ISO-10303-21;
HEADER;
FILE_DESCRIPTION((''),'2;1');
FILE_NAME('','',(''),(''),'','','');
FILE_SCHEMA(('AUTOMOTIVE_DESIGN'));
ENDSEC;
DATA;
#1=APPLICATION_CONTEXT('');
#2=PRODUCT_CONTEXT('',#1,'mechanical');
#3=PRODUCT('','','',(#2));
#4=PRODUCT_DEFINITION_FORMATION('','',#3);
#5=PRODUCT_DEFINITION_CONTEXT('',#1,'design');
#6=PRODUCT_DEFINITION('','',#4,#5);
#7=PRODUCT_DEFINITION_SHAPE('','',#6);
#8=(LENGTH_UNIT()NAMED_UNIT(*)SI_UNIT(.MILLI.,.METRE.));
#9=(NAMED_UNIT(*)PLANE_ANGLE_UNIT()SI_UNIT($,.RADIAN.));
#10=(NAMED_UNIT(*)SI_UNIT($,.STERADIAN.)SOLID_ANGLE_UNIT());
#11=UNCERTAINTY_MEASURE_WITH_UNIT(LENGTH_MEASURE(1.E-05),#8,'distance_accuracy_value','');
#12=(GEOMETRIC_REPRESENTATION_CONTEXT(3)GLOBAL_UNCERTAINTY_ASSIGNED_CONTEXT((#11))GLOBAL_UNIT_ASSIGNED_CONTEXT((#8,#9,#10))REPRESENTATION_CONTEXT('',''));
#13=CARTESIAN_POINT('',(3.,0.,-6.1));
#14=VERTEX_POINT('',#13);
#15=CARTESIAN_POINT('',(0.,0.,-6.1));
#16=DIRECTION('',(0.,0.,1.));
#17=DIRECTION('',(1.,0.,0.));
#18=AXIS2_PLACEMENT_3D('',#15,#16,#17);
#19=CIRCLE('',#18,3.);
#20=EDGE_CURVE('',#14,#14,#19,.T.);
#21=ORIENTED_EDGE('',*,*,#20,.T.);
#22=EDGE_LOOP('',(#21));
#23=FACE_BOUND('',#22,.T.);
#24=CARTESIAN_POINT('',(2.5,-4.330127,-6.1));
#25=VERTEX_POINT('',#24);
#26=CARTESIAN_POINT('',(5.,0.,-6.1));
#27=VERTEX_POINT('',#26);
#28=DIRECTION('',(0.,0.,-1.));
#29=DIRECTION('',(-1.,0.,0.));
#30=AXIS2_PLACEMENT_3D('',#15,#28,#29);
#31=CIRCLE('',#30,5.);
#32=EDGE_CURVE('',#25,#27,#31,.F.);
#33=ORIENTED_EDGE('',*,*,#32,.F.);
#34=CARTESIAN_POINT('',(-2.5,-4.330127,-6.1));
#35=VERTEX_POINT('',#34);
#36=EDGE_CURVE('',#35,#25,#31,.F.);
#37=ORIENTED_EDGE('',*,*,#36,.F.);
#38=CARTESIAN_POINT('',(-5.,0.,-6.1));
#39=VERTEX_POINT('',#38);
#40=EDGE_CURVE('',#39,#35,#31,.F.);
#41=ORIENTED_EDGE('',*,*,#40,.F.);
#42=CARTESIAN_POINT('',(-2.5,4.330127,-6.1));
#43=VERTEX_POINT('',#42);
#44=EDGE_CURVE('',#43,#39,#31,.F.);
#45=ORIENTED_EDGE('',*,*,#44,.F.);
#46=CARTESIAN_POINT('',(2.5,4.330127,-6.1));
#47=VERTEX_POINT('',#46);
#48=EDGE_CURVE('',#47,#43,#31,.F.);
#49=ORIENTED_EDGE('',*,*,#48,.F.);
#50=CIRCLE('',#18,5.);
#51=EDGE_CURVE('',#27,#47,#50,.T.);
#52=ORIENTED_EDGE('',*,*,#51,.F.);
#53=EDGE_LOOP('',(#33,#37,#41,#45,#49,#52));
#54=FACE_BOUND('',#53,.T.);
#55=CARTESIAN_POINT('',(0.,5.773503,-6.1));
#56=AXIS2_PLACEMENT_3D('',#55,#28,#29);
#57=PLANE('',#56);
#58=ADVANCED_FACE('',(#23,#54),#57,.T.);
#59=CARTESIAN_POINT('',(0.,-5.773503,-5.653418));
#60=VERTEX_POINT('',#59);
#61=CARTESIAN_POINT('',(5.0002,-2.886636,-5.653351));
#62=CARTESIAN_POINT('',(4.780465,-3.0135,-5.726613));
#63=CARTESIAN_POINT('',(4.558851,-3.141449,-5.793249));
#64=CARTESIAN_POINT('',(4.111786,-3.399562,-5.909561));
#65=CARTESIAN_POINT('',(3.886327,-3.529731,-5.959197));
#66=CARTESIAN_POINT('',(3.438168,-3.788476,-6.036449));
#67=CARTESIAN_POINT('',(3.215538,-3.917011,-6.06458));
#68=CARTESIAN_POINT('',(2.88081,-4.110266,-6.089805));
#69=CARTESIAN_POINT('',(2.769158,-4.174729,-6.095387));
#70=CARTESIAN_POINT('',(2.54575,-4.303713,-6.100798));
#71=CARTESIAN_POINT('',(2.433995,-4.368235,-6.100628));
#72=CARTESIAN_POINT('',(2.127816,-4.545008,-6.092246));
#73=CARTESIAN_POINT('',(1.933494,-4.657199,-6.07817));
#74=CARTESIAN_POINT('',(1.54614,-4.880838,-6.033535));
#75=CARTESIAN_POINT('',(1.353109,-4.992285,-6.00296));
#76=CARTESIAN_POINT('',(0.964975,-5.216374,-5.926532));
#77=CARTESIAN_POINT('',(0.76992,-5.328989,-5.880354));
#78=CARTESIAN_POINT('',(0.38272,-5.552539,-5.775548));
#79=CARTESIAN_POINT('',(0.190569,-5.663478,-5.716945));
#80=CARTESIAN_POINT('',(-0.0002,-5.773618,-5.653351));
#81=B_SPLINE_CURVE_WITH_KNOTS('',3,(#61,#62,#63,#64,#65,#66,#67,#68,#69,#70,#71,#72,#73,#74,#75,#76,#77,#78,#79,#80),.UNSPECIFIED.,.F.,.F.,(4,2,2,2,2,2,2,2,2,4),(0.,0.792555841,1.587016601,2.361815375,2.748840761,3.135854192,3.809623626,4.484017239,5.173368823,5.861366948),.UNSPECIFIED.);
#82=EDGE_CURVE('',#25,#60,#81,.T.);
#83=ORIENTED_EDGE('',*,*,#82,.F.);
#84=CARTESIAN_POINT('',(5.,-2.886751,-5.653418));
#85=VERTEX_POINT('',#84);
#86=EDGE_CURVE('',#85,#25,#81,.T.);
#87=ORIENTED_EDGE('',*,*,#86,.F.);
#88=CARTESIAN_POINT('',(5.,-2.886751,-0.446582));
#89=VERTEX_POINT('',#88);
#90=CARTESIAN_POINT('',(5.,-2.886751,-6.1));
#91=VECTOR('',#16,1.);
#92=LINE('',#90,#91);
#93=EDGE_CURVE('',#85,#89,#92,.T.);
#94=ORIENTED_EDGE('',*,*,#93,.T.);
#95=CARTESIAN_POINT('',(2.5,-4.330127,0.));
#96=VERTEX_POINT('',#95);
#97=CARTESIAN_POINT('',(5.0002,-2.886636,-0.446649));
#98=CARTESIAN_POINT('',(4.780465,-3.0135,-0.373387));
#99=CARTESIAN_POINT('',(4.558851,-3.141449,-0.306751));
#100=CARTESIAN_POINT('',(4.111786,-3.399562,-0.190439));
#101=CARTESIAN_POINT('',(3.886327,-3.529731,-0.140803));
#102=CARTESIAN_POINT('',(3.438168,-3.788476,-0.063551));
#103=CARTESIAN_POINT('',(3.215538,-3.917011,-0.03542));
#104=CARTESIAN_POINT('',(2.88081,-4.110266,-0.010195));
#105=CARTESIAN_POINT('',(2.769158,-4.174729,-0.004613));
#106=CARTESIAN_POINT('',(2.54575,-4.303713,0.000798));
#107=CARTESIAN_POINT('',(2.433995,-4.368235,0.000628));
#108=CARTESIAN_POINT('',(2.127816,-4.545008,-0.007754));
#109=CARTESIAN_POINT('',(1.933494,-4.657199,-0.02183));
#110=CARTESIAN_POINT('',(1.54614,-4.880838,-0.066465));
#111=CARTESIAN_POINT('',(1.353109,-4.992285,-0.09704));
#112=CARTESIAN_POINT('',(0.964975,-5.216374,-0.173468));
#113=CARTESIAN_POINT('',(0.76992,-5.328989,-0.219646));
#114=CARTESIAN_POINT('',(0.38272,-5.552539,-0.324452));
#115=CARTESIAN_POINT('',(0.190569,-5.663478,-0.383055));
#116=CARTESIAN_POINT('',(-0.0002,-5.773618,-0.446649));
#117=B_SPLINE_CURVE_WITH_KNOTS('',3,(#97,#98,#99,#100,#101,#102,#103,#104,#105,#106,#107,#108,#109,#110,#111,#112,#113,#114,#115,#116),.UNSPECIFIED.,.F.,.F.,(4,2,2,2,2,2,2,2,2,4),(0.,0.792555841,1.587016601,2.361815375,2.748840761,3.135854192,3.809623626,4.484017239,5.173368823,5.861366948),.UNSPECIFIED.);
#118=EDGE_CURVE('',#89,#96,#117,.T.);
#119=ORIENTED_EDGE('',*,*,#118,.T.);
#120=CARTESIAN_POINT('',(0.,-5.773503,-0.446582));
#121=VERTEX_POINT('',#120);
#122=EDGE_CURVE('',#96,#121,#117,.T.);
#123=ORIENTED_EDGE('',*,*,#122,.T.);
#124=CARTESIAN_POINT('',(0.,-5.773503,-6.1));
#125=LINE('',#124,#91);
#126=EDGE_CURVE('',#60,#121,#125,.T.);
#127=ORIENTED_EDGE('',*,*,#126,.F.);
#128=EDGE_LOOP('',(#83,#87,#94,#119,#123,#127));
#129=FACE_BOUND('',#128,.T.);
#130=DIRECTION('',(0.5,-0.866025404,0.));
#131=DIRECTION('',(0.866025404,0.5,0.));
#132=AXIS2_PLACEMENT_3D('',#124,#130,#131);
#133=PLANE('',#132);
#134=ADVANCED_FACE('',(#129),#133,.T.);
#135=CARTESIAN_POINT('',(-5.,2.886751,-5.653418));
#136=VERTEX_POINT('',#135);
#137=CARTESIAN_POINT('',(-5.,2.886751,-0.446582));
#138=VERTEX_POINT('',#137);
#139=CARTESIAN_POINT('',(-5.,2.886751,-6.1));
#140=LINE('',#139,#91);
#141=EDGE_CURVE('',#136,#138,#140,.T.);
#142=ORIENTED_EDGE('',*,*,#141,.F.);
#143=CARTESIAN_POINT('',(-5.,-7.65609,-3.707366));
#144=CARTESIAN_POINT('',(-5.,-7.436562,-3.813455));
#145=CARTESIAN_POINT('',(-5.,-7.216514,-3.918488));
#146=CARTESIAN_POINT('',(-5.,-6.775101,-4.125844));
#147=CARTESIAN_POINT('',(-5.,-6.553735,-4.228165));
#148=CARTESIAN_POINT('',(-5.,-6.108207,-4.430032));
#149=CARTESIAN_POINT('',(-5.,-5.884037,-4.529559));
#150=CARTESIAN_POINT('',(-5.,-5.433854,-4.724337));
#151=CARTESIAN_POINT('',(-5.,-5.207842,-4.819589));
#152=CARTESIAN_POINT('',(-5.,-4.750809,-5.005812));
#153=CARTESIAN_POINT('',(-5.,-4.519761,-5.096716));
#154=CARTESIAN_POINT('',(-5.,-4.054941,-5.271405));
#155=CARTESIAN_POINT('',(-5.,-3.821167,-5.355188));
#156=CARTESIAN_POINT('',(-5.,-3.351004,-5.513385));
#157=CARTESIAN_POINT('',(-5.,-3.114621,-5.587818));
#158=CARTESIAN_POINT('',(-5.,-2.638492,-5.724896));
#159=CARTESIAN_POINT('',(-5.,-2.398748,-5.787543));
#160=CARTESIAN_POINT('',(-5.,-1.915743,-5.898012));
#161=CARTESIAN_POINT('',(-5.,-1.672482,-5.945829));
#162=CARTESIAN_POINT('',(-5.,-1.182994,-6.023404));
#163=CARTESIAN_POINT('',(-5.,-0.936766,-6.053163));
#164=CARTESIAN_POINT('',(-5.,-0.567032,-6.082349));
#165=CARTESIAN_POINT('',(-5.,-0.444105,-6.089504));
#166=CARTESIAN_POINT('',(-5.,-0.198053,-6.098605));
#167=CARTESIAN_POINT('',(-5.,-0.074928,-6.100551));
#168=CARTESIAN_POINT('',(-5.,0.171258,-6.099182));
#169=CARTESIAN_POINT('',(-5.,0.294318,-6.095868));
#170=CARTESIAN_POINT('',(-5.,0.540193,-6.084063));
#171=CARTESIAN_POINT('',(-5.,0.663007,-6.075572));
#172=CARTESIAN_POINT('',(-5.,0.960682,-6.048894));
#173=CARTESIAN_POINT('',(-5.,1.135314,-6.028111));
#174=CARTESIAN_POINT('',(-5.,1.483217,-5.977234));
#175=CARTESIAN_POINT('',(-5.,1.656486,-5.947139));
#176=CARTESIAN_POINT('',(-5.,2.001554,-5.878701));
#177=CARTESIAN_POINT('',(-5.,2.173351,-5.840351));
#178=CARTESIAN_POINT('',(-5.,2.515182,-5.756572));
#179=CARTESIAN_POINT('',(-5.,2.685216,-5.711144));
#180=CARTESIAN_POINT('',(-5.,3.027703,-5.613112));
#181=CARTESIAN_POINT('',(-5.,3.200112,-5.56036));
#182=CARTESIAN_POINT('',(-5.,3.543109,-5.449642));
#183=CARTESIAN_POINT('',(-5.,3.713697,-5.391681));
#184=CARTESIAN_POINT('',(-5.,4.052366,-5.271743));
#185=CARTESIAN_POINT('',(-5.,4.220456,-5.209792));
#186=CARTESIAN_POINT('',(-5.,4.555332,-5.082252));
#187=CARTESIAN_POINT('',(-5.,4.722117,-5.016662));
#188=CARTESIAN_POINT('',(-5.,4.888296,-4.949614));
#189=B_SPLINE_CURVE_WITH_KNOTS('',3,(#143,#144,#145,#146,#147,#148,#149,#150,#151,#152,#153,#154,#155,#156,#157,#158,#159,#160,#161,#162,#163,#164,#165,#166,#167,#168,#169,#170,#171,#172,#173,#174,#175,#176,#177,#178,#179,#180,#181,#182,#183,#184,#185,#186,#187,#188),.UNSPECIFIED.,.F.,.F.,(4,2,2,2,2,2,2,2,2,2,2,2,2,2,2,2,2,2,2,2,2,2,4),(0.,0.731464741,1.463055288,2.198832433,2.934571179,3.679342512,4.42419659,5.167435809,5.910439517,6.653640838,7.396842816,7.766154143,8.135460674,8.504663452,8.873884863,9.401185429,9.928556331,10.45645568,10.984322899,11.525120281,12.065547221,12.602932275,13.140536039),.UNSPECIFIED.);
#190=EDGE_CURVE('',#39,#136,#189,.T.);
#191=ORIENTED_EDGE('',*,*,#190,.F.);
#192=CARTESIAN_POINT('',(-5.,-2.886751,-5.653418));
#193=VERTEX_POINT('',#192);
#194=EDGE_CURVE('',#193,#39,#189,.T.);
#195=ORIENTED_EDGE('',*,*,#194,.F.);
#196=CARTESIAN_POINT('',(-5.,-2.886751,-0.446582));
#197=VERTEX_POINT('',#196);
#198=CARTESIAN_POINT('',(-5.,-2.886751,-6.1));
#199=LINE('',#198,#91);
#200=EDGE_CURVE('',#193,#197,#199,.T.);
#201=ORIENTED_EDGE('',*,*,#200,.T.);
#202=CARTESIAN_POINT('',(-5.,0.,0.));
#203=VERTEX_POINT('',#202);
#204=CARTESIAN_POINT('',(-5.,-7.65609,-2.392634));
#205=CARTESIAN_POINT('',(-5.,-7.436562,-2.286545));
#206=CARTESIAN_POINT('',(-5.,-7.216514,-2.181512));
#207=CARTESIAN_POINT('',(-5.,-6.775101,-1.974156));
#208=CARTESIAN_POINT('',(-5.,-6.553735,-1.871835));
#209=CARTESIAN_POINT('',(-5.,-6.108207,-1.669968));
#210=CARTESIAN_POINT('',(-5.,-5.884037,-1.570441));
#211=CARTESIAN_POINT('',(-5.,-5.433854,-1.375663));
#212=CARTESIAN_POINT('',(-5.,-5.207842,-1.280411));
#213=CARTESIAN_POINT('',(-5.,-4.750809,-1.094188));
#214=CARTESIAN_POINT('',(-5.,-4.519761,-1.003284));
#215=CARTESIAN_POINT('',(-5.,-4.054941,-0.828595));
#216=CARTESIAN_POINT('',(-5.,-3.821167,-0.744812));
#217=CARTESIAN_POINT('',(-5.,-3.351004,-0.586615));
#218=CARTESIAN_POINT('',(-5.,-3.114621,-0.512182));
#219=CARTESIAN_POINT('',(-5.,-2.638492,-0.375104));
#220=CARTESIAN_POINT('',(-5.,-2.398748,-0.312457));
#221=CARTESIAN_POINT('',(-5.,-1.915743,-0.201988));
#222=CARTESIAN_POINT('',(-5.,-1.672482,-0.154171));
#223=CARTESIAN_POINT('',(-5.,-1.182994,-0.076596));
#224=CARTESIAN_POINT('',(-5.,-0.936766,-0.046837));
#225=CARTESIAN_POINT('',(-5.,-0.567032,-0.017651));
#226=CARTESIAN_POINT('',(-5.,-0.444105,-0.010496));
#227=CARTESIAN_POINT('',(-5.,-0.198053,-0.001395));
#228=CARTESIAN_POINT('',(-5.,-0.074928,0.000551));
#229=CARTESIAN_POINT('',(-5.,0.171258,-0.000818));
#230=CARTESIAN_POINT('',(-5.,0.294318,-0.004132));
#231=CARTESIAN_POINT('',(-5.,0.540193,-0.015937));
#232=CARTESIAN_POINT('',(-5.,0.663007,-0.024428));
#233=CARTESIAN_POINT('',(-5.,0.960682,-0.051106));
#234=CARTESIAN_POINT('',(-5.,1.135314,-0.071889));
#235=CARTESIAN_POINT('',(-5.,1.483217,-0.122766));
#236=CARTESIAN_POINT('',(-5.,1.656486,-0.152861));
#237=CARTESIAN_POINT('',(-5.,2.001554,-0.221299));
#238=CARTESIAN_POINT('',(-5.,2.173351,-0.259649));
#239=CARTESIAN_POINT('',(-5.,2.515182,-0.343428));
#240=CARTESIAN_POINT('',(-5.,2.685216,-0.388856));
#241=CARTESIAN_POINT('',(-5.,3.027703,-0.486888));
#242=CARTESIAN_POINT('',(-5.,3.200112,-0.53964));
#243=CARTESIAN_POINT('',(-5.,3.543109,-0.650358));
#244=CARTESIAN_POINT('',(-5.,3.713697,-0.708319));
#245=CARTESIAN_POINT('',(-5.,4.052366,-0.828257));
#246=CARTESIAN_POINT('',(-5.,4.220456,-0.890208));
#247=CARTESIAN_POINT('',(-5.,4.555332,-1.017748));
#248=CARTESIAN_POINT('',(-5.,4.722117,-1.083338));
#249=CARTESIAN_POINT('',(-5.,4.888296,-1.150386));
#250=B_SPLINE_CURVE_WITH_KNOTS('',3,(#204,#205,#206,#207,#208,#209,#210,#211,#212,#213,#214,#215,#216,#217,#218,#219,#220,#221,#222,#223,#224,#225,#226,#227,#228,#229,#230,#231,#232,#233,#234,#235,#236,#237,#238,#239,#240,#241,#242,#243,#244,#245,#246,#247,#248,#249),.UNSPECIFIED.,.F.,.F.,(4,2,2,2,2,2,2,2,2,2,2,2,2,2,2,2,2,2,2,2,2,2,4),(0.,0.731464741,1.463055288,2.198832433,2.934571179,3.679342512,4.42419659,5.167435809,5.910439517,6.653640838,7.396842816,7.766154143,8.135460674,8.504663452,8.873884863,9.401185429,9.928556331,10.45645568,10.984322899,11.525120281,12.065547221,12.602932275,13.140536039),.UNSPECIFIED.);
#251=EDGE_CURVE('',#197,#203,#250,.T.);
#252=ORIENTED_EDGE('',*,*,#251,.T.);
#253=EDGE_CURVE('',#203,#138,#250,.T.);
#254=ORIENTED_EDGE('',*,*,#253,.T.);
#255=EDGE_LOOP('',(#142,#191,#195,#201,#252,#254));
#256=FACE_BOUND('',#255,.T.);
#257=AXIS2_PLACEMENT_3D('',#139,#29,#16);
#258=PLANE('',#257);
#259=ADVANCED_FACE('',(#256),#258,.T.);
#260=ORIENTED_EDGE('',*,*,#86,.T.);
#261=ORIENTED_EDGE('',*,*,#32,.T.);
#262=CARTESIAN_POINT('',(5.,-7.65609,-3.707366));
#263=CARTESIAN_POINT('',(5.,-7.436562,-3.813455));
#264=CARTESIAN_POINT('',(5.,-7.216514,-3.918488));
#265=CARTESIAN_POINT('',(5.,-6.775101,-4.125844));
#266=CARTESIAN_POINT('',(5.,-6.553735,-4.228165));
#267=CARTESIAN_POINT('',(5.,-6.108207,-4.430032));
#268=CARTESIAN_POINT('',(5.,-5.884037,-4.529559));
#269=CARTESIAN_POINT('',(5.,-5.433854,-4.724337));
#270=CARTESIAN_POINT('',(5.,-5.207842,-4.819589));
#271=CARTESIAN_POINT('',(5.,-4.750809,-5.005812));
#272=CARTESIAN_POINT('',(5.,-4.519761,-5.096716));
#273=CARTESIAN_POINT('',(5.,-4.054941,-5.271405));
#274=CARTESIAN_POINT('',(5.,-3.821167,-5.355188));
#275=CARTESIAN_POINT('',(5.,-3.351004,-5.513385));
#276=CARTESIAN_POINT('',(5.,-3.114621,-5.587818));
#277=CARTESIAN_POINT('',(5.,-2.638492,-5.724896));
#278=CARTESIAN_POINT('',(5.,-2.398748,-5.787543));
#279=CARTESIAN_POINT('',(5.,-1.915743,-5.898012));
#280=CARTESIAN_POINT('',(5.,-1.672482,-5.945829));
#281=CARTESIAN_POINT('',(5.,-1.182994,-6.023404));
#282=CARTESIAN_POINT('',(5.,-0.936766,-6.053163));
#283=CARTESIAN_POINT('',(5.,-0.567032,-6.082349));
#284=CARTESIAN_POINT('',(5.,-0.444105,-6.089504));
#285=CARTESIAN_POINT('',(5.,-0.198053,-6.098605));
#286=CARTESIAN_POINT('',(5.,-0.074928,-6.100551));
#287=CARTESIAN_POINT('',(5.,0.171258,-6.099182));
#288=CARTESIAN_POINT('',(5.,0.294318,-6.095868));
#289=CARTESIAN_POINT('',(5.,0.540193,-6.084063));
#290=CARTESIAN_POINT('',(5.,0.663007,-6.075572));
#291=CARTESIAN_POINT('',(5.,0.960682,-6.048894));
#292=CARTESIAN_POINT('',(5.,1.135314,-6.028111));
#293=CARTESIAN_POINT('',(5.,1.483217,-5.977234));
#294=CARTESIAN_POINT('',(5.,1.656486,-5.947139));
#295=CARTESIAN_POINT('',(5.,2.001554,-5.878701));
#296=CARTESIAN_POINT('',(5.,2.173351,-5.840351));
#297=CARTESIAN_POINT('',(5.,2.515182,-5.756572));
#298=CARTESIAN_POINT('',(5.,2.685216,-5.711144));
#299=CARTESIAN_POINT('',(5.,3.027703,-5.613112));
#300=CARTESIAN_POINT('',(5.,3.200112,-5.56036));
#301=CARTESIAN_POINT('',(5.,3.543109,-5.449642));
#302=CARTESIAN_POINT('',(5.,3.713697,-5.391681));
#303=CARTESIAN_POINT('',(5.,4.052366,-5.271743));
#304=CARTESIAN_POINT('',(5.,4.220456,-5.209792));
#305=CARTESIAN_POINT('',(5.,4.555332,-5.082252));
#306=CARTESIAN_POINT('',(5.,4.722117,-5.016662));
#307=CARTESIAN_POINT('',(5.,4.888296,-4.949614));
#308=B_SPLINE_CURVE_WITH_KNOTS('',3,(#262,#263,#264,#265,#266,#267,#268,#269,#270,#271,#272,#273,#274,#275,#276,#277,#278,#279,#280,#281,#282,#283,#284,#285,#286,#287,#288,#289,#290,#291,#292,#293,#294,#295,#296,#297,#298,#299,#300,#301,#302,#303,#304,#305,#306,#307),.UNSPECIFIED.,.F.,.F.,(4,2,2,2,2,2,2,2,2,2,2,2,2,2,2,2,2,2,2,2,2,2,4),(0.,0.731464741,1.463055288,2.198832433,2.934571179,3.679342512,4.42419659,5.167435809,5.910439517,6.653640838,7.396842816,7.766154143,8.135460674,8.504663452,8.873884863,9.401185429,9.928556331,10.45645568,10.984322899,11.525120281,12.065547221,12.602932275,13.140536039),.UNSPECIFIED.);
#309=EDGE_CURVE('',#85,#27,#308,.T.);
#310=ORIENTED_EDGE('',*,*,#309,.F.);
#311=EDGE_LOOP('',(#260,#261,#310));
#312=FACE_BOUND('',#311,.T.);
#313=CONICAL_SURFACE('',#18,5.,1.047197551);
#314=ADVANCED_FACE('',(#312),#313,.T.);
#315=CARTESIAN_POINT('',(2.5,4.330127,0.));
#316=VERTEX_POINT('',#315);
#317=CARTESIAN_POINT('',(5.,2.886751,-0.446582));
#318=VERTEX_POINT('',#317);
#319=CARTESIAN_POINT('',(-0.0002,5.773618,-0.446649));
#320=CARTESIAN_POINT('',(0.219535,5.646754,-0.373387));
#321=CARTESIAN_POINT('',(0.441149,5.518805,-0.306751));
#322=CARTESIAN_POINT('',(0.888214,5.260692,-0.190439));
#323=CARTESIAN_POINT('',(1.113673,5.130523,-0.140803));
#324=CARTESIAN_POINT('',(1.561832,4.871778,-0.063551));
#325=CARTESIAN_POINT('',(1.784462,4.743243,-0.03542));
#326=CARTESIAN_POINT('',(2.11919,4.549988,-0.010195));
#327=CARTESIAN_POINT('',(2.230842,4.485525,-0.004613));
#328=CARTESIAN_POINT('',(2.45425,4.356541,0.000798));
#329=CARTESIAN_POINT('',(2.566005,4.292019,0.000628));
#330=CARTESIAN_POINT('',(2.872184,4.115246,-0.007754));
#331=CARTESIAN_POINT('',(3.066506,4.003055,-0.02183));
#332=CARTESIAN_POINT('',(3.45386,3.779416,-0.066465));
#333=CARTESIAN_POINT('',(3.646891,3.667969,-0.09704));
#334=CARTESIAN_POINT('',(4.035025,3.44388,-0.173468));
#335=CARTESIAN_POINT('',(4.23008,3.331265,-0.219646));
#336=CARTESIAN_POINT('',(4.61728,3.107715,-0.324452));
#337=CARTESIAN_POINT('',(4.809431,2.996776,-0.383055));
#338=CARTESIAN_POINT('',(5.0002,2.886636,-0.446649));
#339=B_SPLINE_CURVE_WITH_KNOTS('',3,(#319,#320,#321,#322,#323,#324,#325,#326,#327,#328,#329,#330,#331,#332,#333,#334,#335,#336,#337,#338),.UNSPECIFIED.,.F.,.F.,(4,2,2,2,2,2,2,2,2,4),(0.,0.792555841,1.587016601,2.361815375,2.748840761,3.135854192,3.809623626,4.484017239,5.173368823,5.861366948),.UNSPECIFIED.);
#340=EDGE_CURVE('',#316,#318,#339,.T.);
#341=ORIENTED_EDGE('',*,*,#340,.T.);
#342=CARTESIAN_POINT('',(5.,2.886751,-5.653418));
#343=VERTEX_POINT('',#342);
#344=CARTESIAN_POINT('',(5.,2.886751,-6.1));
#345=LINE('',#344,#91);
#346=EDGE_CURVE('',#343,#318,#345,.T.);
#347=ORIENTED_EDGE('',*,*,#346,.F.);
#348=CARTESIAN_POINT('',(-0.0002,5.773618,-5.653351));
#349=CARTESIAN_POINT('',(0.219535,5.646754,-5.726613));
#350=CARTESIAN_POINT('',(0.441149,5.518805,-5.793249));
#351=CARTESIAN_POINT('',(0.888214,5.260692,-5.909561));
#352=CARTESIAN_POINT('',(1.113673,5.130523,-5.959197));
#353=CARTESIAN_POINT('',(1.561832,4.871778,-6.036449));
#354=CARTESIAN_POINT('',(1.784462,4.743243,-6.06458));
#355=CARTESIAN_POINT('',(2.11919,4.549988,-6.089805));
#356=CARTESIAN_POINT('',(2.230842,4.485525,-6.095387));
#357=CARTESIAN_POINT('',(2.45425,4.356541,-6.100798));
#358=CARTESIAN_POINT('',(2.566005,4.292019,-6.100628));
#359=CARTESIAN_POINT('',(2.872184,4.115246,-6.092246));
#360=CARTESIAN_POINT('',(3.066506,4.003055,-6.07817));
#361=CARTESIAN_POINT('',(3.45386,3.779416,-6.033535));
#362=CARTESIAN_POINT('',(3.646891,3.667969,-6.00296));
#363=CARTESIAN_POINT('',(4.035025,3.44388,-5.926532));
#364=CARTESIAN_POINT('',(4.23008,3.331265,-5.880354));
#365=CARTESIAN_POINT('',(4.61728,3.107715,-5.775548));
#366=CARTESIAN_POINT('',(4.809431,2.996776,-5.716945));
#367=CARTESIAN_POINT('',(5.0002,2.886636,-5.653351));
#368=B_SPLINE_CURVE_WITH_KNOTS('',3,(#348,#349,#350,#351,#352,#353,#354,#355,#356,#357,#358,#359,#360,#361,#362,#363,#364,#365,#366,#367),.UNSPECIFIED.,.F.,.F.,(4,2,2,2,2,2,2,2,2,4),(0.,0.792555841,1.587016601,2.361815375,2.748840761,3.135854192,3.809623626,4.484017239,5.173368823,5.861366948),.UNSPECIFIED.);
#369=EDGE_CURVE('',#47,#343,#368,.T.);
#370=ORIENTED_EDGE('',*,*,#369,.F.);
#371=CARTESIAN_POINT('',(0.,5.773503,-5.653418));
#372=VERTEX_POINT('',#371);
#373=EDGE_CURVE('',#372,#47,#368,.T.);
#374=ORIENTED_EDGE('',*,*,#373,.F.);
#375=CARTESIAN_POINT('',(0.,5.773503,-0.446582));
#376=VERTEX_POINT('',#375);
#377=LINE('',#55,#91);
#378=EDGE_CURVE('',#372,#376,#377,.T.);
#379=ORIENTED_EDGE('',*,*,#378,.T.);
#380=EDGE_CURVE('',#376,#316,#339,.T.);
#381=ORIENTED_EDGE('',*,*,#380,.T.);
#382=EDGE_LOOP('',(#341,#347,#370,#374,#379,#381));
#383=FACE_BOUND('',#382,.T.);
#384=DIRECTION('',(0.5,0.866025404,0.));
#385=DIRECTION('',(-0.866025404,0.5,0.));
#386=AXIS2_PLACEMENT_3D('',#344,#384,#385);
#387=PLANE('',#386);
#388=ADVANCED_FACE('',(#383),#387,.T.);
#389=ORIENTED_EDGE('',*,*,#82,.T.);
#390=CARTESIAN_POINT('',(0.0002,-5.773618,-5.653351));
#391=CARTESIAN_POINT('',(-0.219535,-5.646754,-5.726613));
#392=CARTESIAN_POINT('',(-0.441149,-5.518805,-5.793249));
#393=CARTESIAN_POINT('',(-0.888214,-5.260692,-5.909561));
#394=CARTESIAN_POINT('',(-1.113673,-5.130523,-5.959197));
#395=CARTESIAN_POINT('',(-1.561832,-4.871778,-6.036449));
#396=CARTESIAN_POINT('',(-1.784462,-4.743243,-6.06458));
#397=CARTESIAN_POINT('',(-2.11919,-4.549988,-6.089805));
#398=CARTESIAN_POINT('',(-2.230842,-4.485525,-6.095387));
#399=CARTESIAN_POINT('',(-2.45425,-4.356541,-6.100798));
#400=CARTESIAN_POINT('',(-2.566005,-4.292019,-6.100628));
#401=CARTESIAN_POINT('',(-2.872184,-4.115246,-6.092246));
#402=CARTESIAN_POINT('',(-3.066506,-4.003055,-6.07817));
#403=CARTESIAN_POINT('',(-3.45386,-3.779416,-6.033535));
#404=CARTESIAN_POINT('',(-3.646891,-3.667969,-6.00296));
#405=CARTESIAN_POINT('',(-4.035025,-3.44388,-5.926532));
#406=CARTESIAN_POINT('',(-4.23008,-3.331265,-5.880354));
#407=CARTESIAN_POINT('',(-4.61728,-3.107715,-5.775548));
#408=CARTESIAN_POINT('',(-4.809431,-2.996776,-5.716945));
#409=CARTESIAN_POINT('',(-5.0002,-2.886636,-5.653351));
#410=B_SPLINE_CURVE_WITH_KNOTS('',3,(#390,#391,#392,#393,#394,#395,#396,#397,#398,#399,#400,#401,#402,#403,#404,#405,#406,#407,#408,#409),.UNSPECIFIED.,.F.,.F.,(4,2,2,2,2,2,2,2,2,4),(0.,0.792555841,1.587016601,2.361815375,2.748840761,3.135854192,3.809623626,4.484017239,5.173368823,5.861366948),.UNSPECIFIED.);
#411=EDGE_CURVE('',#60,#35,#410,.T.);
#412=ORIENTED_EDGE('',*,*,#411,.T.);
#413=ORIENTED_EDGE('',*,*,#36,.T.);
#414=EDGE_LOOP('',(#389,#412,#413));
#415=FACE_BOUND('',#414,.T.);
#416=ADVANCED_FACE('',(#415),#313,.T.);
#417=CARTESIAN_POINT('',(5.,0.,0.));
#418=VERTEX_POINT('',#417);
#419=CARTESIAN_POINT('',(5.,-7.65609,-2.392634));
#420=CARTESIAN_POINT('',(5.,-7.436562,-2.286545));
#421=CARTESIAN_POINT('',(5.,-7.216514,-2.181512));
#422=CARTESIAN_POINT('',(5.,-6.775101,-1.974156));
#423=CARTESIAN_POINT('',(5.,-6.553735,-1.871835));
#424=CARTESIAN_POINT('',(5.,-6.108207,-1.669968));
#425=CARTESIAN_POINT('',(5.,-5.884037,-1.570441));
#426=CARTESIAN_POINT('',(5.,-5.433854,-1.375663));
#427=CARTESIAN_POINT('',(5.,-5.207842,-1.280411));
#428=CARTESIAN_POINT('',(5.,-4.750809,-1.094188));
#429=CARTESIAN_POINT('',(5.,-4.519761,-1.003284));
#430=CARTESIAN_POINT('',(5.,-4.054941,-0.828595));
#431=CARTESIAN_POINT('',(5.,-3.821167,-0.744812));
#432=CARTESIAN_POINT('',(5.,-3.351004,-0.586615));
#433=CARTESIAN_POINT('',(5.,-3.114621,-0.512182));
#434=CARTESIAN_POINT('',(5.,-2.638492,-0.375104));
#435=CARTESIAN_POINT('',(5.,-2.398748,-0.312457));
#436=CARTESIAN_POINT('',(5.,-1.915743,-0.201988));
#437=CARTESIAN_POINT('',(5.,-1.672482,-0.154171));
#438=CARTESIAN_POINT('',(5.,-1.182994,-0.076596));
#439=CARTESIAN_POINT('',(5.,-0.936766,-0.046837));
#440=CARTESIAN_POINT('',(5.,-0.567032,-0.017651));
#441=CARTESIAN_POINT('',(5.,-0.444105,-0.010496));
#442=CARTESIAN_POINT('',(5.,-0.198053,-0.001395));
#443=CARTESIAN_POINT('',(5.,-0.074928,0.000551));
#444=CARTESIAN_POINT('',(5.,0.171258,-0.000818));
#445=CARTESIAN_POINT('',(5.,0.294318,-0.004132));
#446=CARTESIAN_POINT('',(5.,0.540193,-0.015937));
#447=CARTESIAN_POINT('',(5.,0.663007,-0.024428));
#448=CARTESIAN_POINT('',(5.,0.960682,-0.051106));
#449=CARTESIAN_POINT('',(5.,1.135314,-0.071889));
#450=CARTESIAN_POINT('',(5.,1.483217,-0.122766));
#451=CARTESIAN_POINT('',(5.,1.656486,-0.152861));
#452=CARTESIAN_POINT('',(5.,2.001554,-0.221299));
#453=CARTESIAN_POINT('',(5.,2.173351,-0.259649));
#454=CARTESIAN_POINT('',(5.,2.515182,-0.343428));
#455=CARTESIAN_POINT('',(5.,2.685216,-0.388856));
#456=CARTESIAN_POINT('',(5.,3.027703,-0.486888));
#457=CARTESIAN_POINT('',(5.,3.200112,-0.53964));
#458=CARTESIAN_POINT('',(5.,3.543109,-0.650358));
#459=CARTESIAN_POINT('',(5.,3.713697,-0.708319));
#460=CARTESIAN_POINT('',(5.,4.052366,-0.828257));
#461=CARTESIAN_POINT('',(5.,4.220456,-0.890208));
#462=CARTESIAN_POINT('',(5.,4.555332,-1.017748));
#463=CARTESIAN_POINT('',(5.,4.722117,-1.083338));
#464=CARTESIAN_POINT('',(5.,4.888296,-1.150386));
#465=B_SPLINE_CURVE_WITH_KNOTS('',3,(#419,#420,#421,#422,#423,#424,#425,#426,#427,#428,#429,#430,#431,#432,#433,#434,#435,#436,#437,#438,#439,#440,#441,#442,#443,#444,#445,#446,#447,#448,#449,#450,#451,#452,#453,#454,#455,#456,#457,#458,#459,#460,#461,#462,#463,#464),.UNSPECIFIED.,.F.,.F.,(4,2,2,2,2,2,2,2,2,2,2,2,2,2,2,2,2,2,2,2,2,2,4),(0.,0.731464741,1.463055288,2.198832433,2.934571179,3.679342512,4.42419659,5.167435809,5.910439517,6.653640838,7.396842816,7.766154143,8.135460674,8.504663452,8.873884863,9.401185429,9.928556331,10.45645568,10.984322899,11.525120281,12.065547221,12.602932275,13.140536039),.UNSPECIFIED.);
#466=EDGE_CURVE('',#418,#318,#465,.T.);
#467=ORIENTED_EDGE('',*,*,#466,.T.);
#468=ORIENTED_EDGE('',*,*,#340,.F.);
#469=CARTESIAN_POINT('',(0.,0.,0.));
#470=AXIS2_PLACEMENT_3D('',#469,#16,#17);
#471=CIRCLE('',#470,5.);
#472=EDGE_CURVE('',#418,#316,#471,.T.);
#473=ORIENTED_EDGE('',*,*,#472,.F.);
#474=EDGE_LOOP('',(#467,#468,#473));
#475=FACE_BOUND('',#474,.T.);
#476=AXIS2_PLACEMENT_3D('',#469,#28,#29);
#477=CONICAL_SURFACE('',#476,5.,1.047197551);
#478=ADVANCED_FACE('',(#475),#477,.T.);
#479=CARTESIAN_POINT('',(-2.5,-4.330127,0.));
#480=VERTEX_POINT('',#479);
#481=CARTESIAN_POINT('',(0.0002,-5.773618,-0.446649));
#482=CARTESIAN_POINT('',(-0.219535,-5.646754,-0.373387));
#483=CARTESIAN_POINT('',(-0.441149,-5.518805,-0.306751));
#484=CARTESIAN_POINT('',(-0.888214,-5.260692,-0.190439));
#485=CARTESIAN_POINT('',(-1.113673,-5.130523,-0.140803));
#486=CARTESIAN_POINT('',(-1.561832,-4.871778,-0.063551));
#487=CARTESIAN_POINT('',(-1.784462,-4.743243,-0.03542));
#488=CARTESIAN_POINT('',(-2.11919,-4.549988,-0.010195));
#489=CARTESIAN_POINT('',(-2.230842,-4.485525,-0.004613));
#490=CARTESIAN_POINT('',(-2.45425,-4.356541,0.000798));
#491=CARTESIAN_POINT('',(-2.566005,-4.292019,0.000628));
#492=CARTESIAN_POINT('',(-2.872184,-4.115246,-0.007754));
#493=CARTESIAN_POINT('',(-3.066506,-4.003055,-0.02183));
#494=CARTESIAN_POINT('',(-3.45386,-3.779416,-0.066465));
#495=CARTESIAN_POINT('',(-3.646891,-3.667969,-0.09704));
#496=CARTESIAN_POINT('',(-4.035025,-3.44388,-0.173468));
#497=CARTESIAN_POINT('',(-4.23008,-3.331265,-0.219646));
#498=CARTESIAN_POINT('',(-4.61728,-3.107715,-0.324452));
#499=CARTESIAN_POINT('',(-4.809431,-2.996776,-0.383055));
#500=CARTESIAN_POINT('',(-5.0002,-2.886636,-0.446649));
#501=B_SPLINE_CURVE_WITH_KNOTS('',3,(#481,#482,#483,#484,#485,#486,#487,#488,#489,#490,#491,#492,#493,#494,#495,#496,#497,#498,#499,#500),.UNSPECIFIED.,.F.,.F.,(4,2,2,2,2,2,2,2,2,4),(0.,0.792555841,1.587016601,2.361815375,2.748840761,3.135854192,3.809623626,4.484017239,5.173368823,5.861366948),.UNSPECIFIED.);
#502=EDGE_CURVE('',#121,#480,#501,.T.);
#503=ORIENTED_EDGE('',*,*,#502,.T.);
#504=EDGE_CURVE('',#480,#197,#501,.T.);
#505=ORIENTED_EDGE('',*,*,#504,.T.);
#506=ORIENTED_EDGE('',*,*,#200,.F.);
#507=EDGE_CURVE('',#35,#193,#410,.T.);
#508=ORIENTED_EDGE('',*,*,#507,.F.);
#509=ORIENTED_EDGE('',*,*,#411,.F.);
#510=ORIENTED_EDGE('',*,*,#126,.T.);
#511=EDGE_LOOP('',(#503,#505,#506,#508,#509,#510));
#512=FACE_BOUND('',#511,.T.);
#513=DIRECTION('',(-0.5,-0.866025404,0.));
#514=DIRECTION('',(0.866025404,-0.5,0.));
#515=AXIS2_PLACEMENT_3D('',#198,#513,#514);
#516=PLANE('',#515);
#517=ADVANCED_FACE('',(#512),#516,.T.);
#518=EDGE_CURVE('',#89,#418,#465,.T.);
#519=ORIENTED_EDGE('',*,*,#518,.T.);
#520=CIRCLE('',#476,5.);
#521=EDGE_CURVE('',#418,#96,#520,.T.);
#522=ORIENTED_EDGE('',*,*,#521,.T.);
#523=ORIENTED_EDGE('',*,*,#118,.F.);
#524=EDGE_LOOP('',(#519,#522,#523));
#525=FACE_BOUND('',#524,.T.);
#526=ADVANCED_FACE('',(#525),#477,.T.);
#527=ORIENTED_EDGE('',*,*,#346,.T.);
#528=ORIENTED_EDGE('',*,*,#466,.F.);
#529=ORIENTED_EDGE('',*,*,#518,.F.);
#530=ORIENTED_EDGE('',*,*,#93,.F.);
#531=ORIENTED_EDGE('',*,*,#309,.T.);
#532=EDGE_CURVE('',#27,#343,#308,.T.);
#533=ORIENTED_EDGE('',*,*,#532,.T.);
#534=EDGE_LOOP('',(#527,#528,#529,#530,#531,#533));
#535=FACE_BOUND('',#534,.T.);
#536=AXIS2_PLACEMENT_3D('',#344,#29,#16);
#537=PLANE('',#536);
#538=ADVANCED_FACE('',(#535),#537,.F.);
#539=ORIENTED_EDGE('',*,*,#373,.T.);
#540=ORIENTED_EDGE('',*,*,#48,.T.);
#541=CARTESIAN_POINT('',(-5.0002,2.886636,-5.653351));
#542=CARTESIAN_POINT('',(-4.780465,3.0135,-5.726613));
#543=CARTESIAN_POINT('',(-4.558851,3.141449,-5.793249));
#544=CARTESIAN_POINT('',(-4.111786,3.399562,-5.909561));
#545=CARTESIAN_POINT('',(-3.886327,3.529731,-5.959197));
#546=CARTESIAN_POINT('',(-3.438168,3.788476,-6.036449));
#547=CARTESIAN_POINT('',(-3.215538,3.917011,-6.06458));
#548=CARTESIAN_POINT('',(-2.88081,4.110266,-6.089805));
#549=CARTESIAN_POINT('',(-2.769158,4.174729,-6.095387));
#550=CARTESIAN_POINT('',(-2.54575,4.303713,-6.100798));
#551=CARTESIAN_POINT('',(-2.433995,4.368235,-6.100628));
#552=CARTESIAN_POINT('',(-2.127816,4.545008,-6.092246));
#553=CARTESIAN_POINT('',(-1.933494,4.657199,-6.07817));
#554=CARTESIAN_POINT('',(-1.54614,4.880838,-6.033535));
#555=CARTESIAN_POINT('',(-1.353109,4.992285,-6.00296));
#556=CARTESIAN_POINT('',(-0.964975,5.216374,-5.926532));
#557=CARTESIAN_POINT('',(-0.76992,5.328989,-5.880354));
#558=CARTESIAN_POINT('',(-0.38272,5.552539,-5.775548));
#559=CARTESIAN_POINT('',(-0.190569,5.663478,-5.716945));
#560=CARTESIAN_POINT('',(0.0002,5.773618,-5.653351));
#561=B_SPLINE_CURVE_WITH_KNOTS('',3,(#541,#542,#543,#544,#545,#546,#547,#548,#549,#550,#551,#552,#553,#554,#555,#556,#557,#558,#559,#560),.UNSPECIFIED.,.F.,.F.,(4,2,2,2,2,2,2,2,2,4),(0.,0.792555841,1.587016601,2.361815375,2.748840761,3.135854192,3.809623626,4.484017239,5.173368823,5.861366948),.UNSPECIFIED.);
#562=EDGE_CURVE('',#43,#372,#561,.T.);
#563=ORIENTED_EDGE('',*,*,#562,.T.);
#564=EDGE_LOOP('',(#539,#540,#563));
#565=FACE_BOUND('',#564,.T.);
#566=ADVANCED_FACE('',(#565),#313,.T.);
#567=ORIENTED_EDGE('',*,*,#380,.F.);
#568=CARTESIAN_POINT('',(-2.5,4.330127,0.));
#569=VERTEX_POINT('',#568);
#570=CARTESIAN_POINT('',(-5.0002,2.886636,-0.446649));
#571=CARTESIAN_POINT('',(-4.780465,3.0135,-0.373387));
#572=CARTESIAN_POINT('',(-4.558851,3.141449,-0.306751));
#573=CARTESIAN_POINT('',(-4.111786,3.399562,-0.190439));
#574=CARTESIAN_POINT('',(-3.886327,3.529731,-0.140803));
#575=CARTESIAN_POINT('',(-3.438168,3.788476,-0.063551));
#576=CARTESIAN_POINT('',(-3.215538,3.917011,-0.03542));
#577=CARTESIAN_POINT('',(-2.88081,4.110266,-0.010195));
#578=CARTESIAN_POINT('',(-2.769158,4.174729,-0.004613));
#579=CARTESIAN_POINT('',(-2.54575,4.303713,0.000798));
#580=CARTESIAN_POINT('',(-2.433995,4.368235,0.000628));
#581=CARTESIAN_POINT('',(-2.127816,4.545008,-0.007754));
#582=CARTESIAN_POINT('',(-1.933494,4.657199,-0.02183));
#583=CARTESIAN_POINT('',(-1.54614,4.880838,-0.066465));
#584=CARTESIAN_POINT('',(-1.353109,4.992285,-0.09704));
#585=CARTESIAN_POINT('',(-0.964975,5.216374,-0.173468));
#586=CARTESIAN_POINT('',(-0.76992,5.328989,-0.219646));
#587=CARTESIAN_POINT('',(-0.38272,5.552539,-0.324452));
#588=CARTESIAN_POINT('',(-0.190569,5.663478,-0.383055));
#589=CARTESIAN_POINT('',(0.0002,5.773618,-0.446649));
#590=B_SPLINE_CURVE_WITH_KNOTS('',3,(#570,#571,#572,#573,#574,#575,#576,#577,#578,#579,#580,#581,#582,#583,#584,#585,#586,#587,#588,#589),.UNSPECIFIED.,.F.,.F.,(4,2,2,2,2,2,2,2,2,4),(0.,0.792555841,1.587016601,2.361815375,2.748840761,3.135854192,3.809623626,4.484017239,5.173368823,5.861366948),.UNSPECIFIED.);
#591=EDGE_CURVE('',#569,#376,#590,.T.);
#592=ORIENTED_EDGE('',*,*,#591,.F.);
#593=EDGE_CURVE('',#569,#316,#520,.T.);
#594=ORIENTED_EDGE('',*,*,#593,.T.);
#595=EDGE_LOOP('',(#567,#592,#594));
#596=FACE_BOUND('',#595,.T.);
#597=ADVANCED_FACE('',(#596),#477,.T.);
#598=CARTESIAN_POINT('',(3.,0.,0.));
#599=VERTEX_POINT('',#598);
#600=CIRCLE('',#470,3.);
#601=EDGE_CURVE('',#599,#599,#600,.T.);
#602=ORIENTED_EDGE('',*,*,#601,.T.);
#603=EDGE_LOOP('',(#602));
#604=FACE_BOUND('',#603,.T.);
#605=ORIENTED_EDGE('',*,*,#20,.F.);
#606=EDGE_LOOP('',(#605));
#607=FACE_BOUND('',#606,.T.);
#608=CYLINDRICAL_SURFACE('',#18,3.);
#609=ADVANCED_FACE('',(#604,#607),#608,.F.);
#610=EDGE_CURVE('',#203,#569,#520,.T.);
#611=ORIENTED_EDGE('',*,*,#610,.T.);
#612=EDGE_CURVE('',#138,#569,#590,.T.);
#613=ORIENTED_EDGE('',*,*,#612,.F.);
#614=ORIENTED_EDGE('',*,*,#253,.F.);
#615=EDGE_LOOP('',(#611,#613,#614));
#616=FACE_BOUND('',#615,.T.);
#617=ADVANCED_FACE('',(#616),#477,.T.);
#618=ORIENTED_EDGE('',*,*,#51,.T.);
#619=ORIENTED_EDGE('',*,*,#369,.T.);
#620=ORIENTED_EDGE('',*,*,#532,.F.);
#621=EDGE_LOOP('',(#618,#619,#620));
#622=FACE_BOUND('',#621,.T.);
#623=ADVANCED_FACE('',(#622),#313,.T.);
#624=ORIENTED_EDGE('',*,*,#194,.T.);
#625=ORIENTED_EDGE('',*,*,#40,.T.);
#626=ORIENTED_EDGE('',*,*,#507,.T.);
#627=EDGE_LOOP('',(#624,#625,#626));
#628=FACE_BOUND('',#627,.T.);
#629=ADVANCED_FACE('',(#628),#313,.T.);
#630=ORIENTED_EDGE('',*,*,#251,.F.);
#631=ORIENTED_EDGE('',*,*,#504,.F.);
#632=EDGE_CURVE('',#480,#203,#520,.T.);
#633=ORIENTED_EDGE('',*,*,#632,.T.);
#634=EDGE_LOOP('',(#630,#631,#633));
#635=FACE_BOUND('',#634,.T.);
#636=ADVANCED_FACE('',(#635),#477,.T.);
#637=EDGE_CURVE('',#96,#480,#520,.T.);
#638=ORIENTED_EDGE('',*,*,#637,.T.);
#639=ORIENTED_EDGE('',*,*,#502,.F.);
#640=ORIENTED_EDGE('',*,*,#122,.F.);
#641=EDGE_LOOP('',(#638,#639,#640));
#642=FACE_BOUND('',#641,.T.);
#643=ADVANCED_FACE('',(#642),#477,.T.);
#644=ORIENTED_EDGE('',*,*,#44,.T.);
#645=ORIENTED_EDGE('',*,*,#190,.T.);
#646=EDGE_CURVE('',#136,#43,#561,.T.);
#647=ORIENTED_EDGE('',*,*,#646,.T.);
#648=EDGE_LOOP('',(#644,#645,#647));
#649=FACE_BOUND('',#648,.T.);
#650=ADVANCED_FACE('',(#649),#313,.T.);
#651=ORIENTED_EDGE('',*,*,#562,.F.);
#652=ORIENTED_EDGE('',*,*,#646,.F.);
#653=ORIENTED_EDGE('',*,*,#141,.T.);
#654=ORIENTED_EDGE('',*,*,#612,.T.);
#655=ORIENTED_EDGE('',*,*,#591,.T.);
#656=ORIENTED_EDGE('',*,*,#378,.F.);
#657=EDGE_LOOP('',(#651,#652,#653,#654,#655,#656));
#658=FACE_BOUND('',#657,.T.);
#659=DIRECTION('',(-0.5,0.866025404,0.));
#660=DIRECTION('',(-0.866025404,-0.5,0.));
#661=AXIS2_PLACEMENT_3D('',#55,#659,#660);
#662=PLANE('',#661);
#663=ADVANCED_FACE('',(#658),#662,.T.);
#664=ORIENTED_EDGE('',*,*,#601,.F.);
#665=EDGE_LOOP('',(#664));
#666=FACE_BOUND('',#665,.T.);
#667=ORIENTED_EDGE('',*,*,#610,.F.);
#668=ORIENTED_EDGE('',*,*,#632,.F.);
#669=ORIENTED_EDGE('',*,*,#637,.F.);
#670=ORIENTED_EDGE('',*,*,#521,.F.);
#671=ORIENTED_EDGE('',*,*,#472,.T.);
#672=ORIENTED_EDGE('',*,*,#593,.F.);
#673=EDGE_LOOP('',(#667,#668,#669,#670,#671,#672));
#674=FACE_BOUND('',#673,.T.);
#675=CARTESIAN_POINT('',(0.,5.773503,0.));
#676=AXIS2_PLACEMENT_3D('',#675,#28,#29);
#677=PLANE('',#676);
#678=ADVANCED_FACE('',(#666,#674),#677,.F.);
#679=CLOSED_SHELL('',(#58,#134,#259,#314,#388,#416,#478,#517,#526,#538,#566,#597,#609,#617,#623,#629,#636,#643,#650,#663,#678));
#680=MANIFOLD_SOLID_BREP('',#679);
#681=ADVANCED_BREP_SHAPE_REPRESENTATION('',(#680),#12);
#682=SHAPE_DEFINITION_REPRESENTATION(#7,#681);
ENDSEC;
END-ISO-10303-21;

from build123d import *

# Parameters (mm, degrees)
BASENUT_START = -6.1
BASENUTSKE_R  = 3
BASENUT_DEPTH = 6.1


with BuildPart() as part:
    # BaseNutSke → BaseNut (new body)
    with BuildSketch(Plane.XY.offset(BASENUT_START)):
        Polygon((5, 2.886751346), (5, -2.886751346), (0, -5.773502692), (-5, -2.886751346), (-5, 2.886751346), (0, 5.773502692), align=None)
        Circle(BASENUTSKE_R, mode=Mode.SUBTRACT)
    extrude(amount=BASENUT_DEPTH)

    # Sketch3 → Double-Chamfer (revolve, cut)
    with BuildSketch(Plane(origin=(0, 0, 0), x_dir=(0, 0, -1), z_dir=(1, 0, 0))):
        Polygon((6.1, 5), (5.653418013, 5.773502692), (5.653418013, 15.773502692), (16.1, 15.773502692), (16.1, 5), align=None)
        Polygon((0.446581987, 15.773502692), (-10, 15.773502692), (-10, 5), (0, 5), (0.446581987, 5.773502692), align=None)
    revolve(axis=Axis((0, 0, 0), (0, 0, -1)), mode=Mode.SUBTRACT)

    # Sketch5 → EndChamfer (revolve, cut)
    with BuildSketch(Plane(origin=(0, 0, 0), x_dir=(0, 0, -1), z_dir=(1, 0, 0))):
        Polygon((6.0746, 3), (5.689485854, 2.45), (6.1254, 2.45), (6.1254, 3), align=None)
        Polygon((-0.0508, 3), (0, 3), (0.385114146, 2.45), (-0.0508, 2.45), align=None)
    revolve(axis=Axis((0, 0, -25.037505729), (0, 0, -1)), mode=Mode.SUBTRACT)


solid = part.part
